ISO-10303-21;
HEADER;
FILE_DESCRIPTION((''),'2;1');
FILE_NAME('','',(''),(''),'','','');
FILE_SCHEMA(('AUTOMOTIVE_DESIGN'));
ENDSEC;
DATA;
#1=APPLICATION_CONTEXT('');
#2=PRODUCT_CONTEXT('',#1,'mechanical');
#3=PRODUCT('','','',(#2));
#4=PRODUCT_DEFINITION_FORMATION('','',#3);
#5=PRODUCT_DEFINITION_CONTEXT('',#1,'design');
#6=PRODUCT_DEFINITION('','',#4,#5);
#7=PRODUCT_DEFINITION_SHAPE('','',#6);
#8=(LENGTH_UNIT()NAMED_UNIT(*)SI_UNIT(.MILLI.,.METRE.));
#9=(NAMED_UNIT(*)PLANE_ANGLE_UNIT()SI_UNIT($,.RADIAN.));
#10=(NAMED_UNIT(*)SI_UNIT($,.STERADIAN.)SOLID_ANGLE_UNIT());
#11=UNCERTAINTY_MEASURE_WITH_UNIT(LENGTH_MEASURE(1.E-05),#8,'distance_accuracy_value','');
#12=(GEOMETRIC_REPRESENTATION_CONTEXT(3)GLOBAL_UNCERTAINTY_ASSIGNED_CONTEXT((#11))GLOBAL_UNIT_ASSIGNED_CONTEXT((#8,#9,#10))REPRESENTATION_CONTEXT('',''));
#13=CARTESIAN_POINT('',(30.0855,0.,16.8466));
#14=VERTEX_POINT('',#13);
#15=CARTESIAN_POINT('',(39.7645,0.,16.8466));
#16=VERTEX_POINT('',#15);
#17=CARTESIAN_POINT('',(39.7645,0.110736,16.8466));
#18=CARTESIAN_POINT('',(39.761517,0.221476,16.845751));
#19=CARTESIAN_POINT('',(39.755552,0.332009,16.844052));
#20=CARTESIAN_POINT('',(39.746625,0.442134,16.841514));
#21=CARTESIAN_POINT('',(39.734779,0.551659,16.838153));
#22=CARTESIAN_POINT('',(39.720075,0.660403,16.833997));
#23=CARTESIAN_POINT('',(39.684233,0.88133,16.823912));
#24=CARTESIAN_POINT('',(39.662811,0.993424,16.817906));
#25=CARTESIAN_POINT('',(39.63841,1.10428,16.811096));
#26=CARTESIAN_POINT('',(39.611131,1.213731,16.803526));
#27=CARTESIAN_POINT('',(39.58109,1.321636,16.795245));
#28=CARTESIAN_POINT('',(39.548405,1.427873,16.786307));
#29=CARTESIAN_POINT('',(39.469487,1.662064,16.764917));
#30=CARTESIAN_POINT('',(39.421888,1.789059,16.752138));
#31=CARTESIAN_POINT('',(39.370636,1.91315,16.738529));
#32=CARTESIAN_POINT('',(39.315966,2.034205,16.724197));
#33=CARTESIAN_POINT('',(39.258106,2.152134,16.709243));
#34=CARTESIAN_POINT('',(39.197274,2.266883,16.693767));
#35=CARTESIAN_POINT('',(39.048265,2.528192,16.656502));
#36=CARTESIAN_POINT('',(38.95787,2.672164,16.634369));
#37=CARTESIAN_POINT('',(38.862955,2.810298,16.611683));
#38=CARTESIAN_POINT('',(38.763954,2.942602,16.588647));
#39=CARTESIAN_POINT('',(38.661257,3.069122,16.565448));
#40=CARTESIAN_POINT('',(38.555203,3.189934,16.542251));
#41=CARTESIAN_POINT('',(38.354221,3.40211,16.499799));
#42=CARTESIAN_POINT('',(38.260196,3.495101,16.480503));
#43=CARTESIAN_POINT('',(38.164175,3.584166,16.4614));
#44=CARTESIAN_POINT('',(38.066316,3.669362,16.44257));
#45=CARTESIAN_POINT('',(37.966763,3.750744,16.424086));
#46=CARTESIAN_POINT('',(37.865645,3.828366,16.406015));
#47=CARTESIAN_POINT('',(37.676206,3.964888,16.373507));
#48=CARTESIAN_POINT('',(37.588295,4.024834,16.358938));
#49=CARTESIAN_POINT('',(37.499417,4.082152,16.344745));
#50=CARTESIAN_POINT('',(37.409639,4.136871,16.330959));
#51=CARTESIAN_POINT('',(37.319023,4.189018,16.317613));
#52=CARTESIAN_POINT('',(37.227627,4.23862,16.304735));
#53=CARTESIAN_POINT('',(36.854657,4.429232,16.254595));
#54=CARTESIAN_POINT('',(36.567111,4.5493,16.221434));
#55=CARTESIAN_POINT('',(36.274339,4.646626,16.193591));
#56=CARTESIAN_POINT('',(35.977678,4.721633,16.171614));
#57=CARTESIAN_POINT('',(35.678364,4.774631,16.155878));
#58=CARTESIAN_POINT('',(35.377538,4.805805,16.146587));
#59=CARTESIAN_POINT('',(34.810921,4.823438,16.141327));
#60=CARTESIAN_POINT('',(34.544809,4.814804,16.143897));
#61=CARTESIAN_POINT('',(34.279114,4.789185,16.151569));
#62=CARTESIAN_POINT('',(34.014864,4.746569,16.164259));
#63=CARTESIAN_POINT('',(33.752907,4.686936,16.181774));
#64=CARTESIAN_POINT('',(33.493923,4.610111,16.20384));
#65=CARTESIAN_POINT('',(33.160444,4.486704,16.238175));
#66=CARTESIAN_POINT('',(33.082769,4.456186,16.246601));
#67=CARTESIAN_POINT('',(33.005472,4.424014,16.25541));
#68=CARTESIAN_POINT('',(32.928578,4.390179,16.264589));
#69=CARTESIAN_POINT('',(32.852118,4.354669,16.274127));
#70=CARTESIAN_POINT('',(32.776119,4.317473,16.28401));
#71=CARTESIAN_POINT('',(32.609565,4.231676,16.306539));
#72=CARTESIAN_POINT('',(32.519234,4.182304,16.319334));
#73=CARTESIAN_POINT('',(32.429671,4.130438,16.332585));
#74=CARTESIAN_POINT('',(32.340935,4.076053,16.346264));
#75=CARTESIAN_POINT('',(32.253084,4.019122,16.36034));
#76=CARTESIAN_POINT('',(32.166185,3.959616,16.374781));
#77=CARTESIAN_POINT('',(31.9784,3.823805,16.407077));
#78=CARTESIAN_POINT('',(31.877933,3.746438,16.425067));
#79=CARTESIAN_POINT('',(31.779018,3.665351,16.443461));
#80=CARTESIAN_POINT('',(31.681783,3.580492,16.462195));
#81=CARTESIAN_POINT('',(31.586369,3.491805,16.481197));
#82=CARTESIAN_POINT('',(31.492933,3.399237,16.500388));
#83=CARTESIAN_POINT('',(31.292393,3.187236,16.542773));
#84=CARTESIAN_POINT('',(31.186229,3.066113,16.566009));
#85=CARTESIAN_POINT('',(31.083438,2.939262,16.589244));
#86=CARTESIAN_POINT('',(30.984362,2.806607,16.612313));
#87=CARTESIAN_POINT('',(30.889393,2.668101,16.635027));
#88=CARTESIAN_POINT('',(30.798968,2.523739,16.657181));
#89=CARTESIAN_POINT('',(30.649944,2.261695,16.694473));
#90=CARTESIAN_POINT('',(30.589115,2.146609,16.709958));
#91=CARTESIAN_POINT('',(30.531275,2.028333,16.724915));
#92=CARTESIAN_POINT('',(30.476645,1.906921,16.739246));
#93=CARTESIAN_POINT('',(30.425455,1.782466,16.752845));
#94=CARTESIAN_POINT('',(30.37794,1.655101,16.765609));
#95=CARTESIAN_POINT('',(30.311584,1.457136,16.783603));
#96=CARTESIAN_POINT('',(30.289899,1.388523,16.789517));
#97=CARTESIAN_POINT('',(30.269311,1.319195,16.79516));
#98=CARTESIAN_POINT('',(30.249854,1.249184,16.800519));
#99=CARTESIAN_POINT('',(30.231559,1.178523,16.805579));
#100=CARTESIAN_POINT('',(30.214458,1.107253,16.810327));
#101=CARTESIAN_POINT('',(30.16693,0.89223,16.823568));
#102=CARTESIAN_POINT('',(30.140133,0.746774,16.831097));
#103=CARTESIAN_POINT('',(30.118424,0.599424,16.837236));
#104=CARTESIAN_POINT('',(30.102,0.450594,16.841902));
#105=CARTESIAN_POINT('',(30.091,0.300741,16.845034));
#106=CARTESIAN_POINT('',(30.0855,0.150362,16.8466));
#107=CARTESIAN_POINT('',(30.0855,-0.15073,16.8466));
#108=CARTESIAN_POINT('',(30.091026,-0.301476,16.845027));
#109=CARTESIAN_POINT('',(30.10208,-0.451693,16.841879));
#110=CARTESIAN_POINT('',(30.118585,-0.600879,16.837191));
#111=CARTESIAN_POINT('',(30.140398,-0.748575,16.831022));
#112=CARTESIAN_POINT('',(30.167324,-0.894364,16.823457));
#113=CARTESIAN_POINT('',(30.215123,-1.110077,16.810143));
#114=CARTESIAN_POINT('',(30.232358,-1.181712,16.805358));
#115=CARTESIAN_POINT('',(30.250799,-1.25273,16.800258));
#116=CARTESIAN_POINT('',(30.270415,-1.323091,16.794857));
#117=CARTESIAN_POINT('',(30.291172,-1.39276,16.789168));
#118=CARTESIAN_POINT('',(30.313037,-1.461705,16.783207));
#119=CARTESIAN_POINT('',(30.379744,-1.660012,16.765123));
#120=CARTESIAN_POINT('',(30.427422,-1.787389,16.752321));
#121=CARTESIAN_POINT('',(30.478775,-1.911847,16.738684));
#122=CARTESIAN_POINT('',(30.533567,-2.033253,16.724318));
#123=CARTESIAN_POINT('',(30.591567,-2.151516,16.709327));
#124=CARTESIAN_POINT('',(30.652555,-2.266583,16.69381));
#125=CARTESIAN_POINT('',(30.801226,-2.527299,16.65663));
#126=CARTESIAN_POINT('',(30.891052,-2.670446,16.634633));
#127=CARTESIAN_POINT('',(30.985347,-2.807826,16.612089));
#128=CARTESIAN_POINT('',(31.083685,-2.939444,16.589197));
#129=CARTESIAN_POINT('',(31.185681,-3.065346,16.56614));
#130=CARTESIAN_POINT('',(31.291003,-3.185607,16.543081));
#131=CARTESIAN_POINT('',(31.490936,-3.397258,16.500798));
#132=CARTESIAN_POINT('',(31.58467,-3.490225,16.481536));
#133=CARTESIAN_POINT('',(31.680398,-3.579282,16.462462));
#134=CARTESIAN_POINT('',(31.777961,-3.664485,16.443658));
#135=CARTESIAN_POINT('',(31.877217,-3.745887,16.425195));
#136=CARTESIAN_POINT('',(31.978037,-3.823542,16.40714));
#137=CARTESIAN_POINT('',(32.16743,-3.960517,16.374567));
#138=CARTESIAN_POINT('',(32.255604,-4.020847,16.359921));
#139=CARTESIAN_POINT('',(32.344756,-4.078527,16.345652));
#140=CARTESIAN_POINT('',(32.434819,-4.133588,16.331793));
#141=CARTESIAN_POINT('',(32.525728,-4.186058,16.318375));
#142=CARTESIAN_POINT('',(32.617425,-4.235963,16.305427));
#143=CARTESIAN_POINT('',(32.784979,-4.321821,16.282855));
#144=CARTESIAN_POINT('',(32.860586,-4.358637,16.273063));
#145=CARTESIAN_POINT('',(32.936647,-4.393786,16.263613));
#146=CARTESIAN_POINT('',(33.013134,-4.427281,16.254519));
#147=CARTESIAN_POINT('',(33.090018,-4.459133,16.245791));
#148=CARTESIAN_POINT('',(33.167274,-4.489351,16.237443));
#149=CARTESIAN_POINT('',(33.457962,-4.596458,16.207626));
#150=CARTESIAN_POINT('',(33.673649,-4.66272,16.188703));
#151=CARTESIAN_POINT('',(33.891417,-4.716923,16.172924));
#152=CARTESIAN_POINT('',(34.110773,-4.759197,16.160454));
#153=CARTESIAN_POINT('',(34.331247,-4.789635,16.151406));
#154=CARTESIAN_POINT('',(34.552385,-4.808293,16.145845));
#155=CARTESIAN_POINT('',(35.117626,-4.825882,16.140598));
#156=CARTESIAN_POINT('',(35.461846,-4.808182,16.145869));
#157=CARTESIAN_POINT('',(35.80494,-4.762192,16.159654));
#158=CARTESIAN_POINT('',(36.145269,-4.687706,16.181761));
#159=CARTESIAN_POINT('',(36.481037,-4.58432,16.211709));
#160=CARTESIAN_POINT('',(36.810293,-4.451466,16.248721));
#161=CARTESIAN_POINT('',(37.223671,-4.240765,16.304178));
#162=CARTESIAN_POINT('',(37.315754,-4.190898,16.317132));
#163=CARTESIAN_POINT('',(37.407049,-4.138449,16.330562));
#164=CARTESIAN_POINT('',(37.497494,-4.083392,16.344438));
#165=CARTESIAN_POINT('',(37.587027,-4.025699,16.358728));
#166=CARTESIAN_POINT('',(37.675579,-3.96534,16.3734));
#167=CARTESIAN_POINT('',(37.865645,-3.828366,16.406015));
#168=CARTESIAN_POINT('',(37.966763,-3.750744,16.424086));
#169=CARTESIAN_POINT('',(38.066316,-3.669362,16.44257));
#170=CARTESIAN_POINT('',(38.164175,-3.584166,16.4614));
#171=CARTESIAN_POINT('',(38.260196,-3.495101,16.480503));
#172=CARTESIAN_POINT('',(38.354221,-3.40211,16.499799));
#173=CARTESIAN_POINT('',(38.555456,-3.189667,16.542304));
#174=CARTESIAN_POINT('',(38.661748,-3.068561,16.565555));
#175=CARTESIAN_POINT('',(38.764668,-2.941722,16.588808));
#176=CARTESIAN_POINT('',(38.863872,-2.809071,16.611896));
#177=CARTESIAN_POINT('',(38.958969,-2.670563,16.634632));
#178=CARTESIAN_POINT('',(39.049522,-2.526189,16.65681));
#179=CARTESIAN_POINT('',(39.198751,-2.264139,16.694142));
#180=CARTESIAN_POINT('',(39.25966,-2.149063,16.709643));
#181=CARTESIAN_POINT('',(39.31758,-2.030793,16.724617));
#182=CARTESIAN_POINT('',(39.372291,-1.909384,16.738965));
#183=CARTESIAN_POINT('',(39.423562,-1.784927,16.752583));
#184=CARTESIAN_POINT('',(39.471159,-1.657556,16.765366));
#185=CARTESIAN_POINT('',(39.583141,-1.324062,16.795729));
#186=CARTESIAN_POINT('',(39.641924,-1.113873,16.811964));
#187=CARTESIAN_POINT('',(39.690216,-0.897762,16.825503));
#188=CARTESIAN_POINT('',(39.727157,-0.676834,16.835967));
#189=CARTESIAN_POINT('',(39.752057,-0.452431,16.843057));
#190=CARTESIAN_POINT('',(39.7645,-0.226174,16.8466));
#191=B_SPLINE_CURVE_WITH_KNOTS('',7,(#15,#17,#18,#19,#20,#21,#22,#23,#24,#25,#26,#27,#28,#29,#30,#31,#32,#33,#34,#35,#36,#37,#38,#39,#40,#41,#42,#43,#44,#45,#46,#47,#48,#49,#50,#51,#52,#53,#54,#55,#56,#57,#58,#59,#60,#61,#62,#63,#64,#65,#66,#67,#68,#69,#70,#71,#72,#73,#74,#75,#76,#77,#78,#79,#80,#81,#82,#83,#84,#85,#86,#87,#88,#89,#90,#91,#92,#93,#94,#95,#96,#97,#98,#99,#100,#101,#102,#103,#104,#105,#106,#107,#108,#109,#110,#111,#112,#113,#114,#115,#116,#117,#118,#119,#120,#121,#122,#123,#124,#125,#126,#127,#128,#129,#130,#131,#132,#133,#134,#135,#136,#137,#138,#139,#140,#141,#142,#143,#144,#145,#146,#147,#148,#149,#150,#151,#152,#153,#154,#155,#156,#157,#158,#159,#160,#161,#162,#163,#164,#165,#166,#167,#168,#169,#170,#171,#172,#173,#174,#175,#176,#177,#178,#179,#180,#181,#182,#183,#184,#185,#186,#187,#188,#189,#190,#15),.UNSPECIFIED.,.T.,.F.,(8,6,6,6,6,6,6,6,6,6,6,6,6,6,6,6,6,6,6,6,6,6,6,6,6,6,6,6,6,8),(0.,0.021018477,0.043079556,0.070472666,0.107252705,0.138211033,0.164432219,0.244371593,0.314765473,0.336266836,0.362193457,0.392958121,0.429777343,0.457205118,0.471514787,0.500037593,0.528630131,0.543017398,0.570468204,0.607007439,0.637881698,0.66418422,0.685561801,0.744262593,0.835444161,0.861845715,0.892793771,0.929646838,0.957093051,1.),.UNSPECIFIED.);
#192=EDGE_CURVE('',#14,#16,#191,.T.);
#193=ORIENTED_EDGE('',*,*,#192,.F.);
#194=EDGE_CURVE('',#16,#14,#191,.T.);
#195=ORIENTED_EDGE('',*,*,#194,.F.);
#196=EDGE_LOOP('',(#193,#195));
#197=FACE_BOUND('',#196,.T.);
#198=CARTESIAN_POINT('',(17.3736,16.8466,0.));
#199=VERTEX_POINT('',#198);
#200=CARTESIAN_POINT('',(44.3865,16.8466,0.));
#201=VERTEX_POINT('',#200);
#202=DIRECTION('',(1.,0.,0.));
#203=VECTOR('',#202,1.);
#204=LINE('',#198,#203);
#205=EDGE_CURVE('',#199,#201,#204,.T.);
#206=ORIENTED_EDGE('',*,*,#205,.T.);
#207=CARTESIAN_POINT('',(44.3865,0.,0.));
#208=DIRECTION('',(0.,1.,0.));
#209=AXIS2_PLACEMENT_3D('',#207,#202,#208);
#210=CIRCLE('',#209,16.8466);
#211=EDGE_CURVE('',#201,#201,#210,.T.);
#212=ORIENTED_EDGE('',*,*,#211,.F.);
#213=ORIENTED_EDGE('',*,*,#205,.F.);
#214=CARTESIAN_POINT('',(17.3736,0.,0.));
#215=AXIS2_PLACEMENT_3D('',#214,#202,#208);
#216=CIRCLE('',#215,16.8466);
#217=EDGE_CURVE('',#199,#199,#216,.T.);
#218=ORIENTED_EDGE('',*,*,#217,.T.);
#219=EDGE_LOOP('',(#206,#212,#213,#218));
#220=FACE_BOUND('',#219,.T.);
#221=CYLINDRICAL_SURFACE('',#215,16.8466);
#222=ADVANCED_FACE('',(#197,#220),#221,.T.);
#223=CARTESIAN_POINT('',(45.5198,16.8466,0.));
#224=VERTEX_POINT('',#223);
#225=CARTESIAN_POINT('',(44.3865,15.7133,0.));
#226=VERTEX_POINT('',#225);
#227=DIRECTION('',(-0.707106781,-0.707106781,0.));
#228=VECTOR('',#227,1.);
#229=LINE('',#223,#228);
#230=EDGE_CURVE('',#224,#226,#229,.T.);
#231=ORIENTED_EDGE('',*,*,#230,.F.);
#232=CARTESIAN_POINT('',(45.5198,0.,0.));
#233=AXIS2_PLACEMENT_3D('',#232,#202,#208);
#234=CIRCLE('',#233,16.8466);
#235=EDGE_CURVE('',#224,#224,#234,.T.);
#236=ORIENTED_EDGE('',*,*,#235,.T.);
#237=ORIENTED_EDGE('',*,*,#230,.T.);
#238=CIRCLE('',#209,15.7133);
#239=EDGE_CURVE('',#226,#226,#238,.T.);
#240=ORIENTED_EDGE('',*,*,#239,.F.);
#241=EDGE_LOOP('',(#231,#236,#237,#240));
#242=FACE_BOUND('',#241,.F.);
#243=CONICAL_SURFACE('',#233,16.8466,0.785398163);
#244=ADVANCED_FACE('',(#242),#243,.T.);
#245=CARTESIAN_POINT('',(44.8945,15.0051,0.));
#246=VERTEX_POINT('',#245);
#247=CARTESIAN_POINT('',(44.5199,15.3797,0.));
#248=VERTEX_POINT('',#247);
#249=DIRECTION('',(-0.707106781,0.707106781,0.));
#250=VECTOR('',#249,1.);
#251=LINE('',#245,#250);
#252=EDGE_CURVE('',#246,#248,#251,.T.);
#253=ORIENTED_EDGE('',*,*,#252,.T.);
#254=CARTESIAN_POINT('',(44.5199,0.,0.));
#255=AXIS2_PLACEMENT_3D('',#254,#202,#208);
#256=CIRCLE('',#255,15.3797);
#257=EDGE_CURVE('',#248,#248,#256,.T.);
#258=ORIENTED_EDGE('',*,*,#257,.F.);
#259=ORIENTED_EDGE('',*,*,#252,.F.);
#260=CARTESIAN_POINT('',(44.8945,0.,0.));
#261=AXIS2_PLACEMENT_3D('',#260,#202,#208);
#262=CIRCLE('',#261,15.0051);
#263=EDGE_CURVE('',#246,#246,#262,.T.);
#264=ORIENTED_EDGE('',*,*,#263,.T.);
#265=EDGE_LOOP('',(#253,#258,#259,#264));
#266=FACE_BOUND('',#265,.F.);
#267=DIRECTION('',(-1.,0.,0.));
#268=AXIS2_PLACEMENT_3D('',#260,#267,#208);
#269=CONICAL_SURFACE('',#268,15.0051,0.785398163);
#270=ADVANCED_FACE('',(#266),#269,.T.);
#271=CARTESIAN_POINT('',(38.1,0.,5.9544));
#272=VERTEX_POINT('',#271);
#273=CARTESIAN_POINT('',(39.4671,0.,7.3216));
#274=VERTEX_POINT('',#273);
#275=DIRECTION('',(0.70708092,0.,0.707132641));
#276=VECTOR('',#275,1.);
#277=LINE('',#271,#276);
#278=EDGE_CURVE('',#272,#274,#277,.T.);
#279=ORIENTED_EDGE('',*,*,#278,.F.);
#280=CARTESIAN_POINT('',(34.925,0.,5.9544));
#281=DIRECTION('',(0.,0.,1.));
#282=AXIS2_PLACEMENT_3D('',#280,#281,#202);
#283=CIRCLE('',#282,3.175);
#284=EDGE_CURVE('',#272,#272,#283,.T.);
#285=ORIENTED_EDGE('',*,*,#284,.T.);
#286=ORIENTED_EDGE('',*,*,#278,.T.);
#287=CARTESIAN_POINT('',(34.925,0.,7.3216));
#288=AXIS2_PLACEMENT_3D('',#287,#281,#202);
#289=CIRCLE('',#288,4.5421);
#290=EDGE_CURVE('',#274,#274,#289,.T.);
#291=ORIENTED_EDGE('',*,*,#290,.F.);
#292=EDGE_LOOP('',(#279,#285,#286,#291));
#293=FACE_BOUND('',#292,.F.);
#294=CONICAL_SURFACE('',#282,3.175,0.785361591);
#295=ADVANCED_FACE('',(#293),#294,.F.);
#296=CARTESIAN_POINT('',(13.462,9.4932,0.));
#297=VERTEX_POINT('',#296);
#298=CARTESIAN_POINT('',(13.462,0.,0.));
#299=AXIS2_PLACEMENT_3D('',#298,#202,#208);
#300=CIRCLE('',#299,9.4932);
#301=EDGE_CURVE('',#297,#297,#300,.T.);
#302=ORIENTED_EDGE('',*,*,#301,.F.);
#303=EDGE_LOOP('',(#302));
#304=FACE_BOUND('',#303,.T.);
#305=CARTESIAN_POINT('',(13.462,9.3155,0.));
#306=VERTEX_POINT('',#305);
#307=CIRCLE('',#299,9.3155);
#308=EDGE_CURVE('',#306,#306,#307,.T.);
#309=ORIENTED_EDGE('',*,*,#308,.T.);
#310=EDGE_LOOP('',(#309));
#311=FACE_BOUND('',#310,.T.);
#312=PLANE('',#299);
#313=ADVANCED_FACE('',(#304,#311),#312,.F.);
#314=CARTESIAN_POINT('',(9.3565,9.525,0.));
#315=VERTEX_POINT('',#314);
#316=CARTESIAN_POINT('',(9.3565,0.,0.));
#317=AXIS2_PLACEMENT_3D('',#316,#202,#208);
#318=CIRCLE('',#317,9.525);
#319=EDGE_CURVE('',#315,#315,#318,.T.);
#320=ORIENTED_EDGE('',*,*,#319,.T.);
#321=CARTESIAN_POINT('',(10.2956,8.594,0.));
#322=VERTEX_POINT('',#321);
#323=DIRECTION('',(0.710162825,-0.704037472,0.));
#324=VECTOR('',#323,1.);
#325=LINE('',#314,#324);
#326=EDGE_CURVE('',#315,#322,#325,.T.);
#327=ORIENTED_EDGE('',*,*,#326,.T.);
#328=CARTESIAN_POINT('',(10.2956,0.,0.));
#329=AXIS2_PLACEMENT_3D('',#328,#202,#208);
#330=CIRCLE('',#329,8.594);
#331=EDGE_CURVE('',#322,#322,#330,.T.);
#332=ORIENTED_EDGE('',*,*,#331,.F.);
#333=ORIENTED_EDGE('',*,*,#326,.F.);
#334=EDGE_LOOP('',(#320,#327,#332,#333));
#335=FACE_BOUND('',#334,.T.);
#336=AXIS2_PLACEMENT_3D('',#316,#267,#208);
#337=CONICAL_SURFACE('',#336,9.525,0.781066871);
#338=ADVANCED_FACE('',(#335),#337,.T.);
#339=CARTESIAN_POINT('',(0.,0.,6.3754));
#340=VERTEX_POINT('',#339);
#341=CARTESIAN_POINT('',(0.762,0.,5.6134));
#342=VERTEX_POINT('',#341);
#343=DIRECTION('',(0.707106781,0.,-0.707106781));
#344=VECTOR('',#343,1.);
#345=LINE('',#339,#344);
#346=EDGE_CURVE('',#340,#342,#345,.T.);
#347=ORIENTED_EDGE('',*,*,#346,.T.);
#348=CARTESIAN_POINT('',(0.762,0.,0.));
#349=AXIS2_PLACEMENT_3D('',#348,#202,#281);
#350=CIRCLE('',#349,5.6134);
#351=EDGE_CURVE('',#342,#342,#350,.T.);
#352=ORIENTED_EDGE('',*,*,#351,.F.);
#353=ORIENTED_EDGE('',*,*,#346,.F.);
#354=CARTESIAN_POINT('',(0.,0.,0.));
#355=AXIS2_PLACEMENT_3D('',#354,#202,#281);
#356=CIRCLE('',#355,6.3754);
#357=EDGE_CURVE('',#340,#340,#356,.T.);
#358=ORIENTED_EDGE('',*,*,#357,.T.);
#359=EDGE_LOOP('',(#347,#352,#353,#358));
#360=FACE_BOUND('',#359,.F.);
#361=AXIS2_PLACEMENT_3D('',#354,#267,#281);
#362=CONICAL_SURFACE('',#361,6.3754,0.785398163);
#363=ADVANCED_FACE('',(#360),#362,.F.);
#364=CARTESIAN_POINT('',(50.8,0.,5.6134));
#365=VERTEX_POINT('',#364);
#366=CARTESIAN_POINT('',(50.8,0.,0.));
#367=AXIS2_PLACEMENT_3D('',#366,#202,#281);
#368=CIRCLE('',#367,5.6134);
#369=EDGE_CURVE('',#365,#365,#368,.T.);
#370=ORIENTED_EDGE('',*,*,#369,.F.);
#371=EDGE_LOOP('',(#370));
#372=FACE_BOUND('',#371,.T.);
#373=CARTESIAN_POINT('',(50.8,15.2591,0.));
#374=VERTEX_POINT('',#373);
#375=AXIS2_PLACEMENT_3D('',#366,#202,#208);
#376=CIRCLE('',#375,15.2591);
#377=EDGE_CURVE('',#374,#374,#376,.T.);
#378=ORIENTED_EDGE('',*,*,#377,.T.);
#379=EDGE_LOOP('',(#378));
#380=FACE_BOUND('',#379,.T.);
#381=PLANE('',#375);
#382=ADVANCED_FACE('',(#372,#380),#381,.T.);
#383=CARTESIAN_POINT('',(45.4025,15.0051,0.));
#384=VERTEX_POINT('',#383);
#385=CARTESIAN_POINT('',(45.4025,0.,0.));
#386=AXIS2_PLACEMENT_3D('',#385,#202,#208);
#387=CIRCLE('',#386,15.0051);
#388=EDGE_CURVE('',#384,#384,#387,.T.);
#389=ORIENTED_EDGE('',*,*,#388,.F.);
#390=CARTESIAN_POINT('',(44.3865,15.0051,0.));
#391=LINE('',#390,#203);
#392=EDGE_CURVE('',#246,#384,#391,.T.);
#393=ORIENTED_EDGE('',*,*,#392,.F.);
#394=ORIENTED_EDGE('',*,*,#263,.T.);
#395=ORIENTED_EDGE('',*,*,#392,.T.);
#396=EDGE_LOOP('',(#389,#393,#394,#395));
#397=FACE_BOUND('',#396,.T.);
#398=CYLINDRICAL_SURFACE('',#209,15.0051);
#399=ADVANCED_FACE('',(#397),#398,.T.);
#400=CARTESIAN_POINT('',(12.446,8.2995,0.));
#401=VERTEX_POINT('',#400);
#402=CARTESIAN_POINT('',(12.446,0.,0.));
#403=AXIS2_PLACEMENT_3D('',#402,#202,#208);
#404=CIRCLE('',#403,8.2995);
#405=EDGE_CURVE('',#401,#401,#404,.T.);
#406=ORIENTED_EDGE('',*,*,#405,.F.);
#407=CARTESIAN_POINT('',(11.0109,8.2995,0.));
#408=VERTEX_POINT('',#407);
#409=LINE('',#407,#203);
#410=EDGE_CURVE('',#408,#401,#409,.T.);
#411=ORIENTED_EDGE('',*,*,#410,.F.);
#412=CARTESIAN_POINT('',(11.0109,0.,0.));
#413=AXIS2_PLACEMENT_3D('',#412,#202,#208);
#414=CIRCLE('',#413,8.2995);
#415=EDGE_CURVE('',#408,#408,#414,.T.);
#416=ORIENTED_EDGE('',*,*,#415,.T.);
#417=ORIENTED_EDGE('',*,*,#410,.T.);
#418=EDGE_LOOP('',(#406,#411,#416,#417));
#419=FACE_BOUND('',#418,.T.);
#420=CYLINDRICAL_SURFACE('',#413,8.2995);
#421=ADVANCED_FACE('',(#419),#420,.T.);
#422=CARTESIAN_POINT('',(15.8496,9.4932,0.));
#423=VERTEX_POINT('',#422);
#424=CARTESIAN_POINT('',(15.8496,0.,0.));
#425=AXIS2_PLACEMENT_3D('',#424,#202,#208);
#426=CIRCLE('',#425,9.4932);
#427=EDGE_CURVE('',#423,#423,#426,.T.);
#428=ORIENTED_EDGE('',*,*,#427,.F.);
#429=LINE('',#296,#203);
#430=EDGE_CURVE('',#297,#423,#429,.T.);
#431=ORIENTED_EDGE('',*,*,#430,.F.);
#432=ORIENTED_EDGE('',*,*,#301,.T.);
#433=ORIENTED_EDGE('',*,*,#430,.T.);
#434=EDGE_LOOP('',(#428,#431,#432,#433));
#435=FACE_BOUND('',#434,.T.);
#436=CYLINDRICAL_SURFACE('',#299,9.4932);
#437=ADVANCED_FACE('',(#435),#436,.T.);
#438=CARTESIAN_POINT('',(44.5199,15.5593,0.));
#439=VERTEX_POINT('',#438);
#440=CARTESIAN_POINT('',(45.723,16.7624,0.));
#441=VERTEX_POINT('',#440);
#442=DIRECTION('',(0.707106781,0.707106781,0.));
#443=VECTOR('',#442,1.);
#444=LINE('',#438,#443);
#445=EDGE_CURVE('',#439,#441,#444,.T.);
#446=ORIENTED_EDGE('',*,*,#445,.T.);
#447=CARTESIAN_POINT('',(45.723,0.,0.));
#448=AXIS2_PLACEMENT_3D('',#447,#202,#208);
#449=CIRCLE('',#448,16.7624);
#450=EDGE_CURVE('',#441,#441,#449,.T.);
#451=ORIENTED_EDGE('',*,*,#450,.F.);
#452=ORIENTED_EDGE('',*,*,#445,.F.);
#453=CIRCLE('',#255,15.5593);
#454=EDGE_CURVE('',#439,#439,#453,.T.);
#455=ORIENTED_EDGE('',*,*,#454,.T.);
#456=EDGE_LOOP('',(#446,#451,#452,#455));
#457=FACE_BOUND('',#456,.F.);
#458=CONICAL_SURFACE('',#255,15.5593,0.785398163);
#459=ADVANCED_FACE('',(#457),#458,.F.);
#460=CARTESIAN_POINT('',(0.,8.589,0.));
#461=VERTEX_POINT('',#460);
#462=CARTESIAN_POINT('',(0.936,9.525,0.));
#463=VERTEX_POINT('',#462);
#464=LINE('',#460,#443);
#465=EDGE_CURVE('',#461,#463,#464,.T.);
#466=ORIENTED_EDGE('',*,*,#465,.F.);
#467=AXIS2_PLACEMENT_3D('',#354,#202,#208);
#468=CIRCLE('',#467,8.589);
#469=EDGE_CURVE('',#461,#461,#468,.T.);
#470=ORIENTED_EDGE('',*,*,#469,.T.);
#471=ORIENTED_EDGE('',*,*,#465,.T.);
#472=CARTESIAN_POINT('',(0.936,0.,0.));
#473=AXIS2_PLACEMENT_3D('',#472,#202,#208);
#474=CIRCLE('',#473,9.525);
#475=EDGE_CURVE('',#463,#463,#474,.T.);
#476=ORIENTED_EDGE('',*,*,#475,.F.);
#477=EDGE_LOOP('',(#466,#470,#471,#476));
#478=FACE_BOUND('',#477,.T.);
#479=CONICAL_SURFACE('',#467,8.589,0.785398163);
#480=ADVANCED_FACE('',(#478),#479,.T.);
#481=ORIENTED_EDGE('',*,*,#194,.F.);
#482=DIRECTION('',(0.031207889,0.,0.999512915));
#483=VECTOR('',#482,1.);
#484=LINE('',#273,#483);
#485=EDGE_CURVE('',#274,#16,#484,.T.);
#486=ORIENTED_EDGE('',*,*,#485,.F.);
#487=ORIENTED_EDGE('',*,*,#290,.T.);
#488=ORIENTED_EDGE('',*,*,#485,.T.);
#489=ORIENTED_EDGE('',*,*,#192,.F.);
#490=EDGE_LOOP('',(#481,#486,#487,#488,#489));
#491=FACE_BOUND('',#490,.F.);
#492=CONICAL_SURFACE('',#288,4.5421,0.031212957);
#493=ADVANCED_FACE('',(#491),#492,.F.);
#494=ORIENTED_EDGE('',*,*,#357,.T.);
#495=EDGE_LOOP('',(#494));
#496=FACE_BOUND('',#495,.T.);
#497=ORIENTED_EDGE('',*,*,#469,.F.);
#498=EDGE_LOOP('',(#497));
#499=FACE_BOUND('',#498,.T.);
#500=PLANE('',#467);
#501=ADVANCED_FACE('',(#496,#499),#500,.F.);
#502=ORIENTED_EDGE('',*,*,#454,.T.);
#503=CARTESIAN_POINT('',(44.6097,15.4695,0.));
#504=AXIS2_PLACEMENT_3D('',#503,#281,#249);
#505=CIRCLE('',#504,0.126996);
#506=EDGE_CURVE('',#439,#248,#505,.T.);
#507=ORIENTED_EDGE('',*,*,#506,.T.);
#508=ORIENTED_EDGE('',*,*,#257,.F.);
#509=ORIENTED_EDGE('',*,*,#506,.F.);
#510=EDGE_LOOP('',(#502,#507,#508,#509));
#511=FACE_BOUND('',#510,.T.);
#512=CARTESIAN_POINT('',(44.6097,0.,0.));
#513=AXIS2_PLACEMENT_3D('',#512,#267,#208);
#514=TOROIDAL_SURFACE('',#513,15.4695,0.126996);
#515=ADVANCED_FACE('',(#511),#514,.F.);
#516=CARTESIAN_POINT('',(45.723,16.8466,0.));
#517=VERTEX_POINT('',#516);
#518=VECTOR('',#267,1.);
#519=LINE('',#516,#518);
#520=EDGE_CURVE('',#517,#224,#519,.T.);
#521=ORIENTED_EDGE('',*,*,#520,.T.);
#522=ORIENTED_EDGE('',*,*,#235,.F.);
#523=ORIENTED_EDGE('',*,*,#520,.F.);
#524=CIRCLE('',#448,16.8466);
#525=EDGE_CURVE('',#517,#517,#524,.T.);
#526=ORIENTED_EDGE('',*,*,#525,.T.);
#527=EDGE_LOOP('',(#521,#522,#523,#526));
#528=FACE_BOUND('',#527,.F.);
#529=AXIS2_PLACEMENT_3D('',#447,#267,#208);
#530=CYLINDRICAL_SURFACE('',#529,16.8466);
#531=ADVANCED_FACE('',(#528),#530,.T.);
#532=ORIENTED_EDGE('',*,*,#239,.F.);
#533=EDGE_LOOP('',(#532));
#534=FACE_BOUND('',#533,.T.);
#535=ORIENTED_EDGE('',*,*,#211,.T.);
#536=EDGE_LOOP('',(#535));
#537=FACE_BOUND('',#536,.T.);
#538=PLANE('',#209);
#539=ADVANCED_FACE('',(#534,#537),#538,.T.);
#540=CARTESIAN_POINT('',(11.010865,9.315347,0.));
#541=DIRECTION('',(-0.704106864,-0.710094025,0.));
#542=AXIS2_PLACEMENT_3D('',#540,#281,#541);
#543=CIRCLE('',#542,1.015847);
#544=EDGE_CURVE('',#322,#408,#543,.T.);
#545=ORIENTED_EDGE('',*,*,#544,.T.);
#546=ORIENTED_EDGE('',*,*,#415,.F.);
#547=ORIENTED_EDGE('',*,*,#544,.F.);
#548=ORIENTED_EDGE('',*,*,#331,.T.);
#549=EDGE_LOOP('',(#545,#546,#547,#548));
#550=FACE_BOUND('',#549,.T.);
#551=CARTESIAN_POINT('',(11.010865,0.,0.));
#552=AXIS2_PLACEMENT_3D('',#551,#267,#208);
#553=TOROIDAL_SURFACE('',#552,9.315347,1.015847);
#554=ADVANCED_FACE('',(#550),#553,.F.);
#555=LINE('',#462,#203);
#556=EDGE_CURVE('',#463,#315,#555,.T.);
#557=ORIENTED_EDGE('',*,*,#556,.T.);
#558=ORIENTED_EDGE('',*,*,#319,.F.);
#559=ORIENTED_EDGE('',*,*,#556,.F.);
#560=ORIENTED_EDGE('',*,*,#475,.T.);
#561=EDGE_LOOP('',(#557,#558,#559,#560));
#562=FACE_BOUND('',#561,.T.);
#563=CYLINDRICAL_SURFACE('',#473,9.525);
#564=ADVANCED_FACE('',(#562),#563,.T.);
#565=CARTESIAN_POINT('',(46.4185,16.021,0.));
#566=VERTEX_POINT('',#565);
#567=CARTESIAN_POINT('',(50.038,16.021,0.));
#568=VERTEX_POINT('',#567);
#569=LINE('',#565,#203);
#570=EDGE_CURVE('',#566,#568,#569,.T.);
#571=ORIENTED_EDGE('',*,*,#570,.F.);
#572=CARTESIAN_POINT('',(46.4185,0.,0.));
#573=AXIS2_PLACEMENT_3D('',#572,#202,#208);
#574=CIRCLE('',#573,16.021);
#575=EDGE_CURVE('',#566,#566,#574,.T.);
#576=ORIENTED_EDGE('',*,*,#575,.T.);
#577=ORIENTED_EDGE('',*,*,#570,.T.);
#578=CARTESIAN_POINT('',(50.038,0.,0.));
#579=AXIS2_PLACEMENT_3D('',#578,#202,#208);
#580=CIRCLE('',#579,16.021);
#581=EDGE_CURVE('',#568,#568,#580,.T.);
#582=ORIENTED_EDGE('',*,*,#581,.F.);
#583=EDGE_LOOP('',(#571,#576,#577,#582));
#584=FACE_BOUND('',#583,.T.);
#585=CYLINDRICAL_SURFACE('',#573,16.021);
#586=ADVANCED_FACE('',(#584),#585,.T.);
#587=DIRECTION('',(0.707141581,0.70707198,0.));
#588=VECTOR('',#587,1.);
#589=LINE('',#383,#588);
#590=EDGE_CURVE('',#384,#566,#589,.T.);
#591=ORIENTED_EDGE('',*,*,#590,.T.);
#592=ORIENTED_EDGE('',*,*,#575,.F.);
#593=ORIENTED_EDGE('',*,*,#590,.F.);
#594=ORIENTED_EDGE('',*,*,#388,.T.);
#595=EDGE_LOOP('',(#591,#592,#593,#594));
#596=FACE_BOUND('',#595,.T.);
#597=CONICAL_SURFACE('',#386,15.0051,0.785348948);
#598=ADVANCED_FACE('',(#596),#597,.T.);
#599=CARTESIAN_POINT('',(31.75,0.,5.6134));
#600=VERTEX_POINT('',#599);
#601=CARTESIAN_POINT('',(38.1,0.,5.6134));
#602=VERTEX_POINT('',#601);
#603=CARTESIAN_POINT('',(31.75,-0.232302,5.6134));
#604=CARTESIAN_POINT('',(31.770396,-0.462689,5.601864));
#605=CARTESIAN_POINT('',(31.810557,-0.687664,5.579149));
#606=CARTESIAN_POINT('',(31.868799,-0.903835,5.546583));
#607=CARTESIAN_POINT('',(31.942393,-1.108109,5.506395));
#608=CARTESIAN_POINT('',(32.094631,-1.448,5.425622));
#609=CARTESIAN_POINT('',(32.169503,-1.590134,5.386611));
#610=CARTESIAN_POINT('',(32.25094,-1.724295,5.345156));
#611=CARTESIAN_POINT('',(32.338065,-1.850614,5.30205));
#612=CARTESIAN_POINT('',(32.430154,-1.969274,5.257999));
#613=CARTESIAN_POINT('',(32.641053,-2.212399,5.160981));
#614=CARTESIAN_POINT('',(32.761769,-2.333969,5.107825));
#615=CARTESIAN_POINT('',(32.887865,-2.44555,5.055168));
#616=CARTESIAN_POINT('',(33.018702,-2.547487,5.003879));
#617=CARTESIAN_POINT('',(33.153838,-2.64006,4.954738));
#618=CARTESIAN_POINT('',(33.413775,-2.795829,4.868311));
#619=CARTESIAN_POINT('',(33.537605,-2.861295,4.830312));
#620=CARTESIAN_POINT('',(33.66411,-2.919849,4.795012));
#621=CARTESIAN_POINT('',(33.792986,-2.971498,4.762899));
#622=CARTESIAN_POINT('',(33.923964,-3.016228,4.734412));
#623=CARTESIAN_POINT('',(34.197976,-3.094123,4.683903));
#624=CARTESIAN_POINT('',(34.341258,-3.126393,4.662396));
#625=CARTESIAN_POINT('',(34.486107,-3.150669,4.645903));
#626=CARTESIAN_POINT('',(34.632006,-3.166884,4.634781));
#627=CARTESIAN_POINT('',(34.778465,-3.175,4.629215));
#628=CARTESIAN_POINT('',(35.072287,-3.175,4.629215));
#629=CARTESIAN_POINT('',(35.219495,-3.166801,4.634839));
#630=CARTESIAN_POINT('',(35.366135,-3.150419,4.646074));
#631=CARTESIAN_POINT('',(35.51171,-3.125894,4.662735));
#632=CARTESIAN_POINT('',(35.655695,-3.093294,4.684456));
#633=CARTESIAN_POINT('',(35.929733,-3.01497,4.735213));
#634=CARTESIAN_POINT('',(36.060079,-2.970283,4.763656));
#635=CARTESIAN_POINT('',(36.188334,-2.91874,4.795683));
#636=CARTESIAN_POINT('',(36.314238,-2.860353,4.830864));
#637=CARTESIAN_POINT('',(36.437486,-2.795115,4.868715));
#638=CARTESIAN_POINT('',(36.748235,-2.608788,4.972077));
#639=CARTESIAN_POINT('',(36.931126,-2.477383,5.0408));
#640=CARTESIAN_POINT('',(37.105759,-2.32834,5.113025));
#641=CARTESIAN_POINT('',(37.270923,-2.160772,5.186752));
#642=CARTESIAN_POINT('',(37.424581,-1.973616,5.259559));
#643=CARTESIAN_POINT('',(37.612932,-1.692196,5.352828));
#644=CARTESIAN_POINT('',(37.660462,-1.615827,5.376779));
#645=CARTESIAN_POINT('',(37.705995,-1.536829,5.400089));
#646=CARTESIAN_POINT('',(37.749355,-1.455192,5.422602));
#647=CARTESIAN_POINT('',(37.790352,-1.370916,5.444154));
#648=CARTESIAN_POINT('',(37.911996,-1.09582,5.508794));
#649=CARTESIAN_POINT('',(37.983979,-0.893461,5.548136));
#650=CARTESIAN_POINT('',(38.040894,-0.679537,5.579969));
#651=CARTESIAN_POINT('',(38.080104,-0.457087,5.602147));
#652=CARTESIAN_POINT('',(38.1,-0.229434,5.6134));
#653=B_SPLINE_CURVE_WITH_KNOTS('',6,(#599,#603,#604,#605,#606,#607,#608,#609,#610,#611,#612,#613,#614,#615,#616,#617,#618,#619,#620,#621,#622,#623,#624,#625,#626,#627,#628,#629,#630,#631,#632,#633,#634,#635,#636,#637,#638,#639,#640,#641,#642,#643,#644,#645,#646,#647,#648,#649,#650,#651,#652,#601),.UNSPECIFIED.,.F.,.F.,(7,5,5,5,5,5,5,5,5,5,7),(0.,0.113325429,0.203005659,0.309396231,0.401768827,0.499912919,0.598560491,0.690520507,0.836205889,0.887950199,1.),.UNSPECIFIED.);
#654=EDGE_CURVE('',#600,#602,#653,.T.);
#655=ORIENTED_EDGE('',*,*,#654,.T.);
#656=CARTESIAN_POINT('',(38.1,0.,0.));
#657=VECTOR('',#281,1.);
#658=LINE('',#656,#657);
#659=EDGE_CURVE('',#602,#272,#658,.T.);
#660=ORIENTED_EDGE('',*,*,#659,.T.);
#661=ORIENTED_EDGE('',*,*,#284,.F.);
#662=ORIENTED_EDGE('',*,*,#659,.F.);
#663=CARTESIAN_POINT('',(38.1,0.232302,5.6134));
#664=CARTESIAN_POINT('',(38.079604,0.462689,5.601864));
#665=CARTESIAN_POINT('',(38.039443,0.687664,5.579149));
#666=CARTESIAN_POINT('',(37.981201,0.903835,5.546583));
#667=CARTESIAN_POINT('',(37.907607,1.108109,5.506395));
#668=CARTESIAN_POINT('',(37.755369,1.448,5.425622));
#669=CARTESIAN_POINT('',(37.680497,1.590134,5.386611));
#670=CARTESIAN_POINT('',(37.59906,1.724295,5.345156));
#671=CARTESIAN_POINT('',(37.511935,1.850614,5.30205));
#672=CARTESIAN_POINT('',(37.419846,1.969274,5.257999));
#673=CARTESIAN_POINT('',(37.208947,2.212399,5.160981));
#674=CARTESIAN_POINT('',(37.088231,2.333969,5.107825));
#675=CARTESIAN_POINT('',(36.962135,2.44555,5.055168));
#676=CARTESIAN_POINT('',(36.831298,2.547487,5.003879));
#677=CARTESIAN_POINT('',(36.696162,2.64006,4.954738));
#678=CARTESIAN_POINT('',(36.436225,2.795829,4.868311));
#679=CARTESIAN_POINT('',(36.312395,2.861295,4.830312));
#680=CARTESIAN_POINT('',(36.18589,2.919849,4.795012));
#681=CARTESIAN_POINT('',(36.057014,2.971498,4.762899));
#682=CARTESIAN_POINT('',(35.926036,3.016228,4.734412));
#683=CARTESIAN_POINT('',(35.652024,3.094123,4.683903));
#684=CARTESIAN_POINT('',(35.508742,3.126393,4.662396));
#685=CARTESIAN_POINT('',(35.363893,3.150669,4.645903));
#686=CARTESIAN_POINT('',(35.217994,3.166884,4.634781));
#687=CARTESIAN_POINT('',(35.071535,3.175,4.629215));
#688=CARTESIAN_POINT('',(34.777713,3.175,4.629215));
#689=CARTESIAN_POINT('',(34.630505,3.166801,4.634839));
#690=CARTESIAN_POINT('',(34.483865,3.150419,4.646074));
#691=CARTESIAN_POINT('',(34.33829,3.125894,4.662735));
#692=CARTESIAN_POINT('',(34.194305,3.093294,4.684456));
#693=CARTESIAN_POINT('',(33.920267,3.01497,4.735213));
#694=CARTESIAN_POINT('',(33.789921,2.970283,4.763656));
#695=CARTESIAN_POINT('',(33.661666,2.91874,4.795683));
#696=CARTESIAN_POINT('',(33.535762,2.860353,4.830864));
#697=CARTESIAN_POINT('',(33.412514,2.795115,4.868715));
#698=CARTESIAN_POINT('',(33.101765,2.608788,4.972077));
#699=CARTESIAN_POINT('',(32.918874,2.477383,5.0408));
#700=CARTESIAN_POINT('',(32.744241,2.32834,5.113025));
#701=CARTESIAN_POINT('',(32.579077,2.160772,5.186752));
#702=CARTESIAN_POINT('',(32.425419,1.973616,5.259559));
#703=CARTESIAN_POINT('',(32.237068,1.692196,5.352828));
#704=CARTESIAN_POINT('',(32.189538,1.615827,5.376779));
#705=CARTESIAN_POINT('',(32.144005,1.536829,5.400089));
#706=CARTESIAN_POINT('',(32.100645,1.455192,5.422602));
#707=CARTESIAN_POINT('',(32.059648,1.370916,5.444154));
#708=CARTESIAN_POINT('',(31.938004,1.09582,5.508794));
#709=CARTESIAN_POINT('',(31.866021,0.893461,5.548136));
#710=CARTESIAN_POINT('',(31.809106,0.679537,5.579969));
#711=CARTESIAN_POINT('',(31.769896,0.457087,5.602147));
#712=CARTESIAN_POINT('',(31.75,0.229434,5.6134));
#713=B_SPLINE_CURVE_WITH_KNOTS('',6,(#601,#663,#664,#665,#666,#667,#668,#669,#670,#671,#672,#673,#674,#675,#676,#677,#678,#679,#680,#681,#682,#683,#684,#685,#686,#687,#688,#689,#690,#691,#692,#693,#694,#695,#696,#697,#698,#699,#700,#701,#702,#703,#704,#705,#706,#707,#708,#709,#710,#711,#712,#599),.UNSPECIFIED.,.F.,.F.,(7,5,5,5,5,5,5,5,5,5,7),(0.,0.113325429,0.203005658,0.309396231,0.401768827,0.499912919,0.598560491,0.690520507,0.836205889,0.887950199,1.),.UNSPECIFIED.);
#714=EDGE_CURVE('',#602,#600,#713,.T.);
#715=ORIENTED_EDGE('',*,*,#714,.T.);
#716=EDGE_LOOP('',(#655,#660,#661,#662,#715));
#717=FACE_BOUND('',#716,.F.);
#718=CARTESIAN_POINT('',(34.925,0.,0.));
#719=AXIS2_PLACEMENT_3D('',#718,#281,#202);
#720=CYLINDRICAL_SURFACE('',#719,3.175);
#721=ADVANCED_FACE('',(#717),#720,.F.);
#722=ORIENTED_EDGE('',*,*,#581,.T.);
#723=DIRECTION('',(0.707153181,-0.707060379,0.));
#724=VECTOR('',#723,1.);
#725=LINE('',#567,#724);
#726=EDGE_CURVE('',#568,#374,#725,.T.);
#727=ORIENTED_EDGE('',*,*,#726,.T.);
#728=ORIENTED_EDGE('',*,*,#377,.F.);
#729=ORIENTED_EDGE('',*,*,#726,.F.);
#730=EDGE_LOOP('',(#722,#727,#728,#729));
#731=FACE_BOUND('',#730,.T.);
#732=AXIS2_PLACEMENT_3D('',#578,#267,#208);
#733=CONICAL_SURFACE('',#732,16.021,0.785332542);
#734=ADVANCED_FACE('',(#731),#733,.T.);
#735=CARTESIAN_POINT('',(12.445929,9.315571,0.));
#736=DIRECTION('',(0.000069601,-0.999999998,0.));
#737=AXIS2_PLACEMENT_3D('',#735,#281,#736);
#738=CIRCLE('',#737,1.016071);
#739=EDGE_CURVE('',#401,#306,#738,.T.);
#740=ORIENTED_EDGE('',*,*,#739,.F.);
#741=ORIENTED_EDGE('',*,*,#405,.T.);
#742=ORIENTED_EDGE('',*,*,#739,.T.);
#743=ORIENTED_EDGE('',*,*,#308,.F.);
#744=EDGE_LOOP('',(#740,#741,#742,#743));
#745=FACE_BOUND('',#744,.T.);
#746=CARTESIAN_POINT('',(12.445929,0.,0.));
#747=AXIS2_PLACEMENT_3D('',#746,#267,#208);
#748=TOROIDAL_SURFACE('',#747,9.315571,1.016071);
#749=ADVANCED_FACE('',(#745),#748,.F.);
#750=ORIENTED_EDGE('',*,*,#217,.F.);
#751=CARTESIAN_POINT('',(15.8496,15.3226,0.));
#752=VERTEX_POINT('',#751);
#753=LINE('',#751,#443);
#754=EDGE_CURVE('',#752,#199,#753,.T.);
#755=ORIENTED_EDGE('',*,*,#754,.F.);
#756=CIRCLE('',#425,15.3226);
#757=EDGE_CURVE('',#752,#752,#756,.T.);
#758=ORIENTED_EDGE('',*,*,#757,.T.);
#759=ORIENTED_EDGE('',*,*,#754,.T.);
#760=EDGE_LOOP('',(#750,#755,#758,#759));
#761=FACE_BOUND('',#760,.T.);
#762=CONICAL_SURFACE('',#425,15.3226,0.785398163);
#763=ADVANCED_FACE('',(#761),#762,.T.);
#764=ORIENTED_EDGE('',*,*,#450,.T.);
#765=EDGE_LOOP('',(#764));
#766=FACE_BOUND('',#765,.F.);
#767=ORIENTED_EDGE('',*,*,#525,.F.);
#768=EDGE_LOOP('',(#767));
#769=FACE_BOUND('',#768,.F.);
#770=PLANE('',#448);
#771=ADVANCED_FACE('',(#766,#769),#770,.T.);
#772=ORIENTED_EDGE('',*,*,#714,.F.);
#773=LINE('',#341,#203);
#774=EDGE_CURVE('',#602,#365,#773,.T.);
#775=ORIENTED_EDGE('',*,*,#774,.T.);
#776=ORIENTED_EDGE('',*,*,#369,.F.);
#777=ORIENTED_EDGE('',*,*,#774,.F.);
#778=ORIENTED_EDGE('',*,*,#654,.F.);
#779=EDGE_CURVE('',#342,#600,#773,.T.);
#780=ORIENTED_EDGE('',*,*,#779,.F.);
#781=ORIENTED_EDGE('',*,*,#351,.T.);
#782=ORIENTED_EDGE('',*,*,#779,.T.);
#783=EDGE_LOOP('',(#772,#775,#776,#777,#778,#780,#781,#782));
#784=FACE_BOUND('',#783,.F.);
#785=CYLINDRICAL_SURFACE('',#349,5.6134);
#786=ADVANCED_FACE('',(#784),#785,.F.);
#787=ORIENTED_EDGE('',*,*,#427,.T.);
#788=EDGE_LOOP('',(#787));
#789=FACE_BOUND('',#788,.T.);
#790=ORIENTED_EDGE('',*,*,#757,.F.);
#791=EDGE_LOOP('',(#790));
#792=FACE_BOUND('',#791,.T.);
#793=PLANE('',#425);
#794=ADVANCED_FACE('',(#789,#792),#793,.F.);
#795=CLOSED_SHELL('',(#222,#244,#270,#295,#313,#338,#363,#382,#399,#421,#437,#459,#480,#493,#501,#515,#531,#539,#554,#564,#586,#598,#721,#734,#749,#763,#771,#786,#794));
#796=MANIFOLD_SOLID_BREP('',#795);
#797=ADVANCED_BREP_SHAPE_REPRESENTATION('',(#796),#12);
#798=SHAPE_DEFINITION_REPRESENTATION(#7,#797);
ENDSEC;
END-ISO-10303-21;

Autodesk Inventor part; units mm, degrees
sketch "Sketch_2" plane through (0, 0, 0) normal (0, 0, 1) x (1, 0, 0)
  line L0 (15.8496, 0) -> (0, 0)
  line L1 (0, 0) -> (0, 8.589)
  line L2 (0, 8.589) -> (0.936, 9.525)
  line L3 (0.936, 9.525) -> (9.3565, 9.525)
  line L4 (9.3565, 9.525) -> (10.2956, 8.594)
  arc A0 (10.2956, 8.594) -> (11.0109, 8.2995) centre (11.0109, 9.3154) ccw
  line L5 (11.0109, 8.2995) -> (12.446, 8.2995)
  arc A1 (12.446, 8.2995) -> (13.462, 9.3155) centre (12.446, 9.3154) ccw
  line L6 (13.462, 9.3155) -> (13.462, 9.4932)
  line L7 (13.462, 9.4932) -> (15.8496, 9.4932)
  line L8 (15.8496, 9.4932) -> (15.8496, 0)
  line L9 (15.8496, 0) -> (0, 0)
revolve "Revolution1" add sketch "Sketch_2" angle 360 about axis through (15.8496, 0, 0) along (1, 0, 0)
thread "Thread1" size "3/4-16 UNF" class "2A" standard "ANSI Unified Screw Threads" full length
sketch "Sketch_3" plane through (0, 0, 0) normal (0, 0, 1) x (1, 0, 0)
  line L0 (50.8, 0) -> (15.8496, 0)
  line L1 (15.8496, 0) -> (15.8496, 15.3226)
  line L2 (15.8496, 15.3226) -> (17.3736, 16.8466)
  line L3 (17.3736, 16.8466) -> (44.3865, 16.8466)
  line L4 (44.3865, 16.8466) -> (44.3865, 15.0051)
  line L5 (44.3865, 15.0051) -> (45.4025, 15.0051)
  line L6 (45.4025, 15.0051) -> (46.4185, 16.021)
  line L7 (46.4185, 16.021) -> (50.038, 16.021)
  line L8 (50.038, 16.021) -> (50.8, 15.2591)
  line L9 (50.8, 15.2591) -> (50.8, 0)
  line L10 (50.8, 0) -> (15.8496, 0)
revolve "Revolution2" add sketch "Sketch_3" angle 360 about axis through (50.8, 0, 0) along (1, 0, 0)
sketch "Sketch3" plane through (0, 0, 0) normal (-1, 0, 0) x (0, 0, 1)
  point P0 (0, 0)
hole "Hole1" at (0, 0, 0) direction (1, 0, 0) diameter 11.2268 depth 50.8 countersink diameter 12.7508 countersink angle 90
sketch "Sketch_40" plane through (0, 0, 0) normal (0, 1, 0) x (-1, 0, 0)
  line L0 (-34.925, 16.8466) -> (-34.925, 0)
  line L1 (-34.925, 0) -> (-38.1, 0)
  line L2 (-38.1, 0) -> (-38.1, 5.9544)
  line L3 (-38.1, 5.9544) -> (-39.4671, 7.3216)
  line L4 (-39.4671, 7.3216) -> (-39.7645, 16.8466)
  line L5 (-39.7645, 16.8466) -> (-34.925, 16.8466)
  line L6 (-34.925, 16.8466) -> (-34.925, 0)
revolve "Revolution3" cut sketch "Sketch_40" angle 360 about axis through (34.925, 0, 16.8466) along (0, 0, 1)
thread "Thread2" size "1/8" designation "1/8 - 27 NPT" standard "NPT" length 5.7178
sketch "Sketch_47" plane through (0, 0, 0) normal (0, 0, 1) x (1, 0, 0)
  line L0 (45.4025, 0) -> (44.3865, 0)
  line L1 (44.3865, 15.7133) -> (44.3865, 14.7511)
  line L2 (44.3865, 14.7511) -> (45.4025, 14.7511)
  line L3 (45.4025, 14.7511) -> (45.4025, 15.0051)
  line L4 (45.4025, 15.0051) -> (44.8945, 15.0051)
  line L5 (44.8945, 15.0051) -> (44.5199, 15.3797)
  arc A0 (44.5199, 15.5593) -> (44.5199, 15.3797) centre (44.6097, 15.4695) ccw
  line L6 (44.5199, 15.5593) -> (45.723, 16.7624)
  line L7 (45.723, 16.7624) -> (45.723, 16.8466)
  line L8 (45.723, 16.8466) -> (45.5198, 16.8466)
  line L9 (45.5198, 16.8466) -> (44.3865, 15.7133)
revolve "Revolution4" add sketch "Sketch_47" angle 360 about axis through (45.4025, 0, 0) along (1, 0, 0)
ref_plane "dp1_XY" through (15.8496, 9.4932, 0) normal (0, 0, 1) x (1, 0, 0)
ref_plane "dp1_YZ" through (15.8496, 9.4932, 0) normal (1, 0, 0) x (0, 1, 0)
ref_plane "dp1_ZX" through (15.8496, 9.4932, 0) normal (0, 1, 0) x (0, 0, 1)
ref_plane "dp2_XY" through (15.8496, -9.4932, 0) normal (0, 0, 1) x (1, 0, 0)
ref_plane "dp2_YZ" through (15.8496, -9.4932, 0) normal (1, 0, 0) x (0, 1, 0)
ref_plane "dp2_ZX" through (15.8496, -9.4932, 0) normal (0, 1, 0) x (0, 0, 1)
ref_plane "hh_XY" through (0, 9.525, 0) normal (0, 0, 1) x (1, 0, 0)
ref_plane "hh_YZ" through (0, 9.525, 0) normal (1, 0, 0) x (0, 1, 0)
ref_plane "hh_ZX" through (0, 9.525, 0) normal (0, 1, 0) x (0, 0, 1)
ref_plane "port_XY" through (34.925, 0, 0) normal (0, 0, 1) x (1, 0, 0)
ref_plane "port_YZ" through (34.925, 0, 0) normal (1, 0, 0) x (0, 1, 0)
ref_plane "port_ZX" through (34.925, 0, 0) normal (0, 1, 0) x (0, 0, 1)
ref_plane "rod_guide_XY" through (0, 0, 0) normal (1, 0, 0) x (0, 0, -1)
ref_plane "rod_guide_YZ" through (0, 0, 0) normal (0, 0, -1) x (0, 1, 0)
ref_plane "rod_guide_ZX" through (0, 0, 0) normal (0, 1, 0) x (1, 0, 0)
ref_plane "s1_XY" through (13.462, 0, 0) normal (0, 0, 1) x (1, 0, 0)
ref_plane "s1_YZ" through (13.462, 0, 0) normal (1, 0, 0) x (0, 1, 0)
ref_plane "s1_ZX" through (13.462, 0, 0) normal (0, 1, 0) x (0, 0, 1)
ref_plane "s2_XY" through (15.8496, 0, 0) normal (0, 0, 1) x (1, 0, 0)
ref_plane "s2_YZ" through (15.8496, 0, 0) normal (1, 0, 0) x (0, 1, 0)
ref_plane "s2_ZX" through (15.8496, 0, 0) normal (0, 1, 0) x (0, 0, 1)
ref_plane "t1_XY" through (15.8496, 0, 0) normal (1, 0, 0) x (0, 0, -1)
ref_plane "t1_YZ" through (15.8496, 0, 0) normal (0, 0, -1) x (0, 1, 0)
ref_plane "t1_ZX" through (15.8496, 0, 0) normal (0, 1, 0) x (1, 0, 0)
ref_plane "t111_XY" through (15.8496, 0, 0) normal (1, 0, 0) x (0, 0, -1)
ref_plane "t111_YZ" through (15.8496, 0, 0) normal (0, 0, -1) x (0, 1, 0)
ref_plane "t111_ZX" through (15.8496, 0, 0) normal (0, 1, 0) x (1, 0, 0)
ref_plane "to_foot_bracket_XY" through (15.8496, 0, 0) normal (1, 0, 0) x (0, 0, -1)
ref_plane "to_foot_bracket_YZ" through (15.8496, 0, 0) normal (0, 0, -1) x (0, 1, 0)
ref_plane "to_foot_bracket_ZX" through (15.8496, 0, 0) normal (0, 1, 0) x (1, 0, 0)
ref_plane "to_nut_XY" through (13.462, 0, 0) normal (1, 0, 0) x (0, 0, -1)
ref_plane "to_nut_YZ" through (13.462, 0, 0) normal (0, 0, -1) x (0, 1, 0)
ref_plane "to_nut_ZX" through (13.462, 0, 0) normal (0, 1, 0) x (1, 0, 0)
ref_plane "to_rod_XY" through (0, 0, 0) normal (1, 0, 0) x (0, 0, -1)
ref_plane "to_rod_YZ" through (0, 0, 0) normal (0, 0, -1) x (0, 1, 0)
ref_plane "to_rod_ZX" through (0, 0, 0) normal (0, 1, 0) x (1, 0, 0)
ref_plane "to_screw_XY" through (34.925, 0, 0) normal (0, 1, 0) x (1, 0, 0)
ref_plane "to_screw_YZ" through (34.925, 0, 0) normal (1, 0, 0) x (0, 0, -1)
ref_plane "to_screw_ZX" through (34.925, 0, 0) normal (0, 0, -1) x (0, 1, 0)
ref_plane "to_trunnion_brackets_XY" through (0, 0, 0) normal (0, 1, 0) x (1, 0, 0)
ref_plane "to_trunnion_brackets_YZ" through (0, 0, 0) normal (1, 0, 0) x (0, 0, -1)
ref_plane "to_trunnion_brackets_ZX" through (0, 0, 0) normal (0, 0, -1) x (0, 1, 0)
ref_plane "to_trunnion_brackets1_XY" through (0, 0, 0) normal (0, 1, 0) x (1, 0, 0)
ref_plane "to_trunnion_brackets1_YZ" through (0, 0, 0) normal (1, 0, 0) x (0, 0, -1)
ref_plane "to_trunnion_brackets1_ZX" through (0, 0, 0) normal (0, 0, -1) x (0, 1, 0)
ref_plane "to_trunnion_brackets2_XY" through (0, 0, 0) normal (0, 1, 0) x (1, 0, 0)
ref_plane "to_trunnion_brackets2_YZ" through (0, 0, 0) normal (1, 0, 0) x (0, 0, -1)
ref_plane "to_trunnion_brackets2_ZX" through (0, 0, 0) normal (0, 0, -1) x (0, 1, 0)
ref_plane "to_tube_XY" through (45.4025, 0, 0) normal (1, 0, 0) x (0, 0, -1)
ref_plane "to_tube_YZ" through (45.4025, 0, 0) normal (0, 0, -1) x (0, 1, 0)
ref_plane "to_tube_ZX" through (45.4025, 0, 0) normal (0, 1, 0) x (1, 0, 0)
properties part number "12R000-0_rod_guide"
